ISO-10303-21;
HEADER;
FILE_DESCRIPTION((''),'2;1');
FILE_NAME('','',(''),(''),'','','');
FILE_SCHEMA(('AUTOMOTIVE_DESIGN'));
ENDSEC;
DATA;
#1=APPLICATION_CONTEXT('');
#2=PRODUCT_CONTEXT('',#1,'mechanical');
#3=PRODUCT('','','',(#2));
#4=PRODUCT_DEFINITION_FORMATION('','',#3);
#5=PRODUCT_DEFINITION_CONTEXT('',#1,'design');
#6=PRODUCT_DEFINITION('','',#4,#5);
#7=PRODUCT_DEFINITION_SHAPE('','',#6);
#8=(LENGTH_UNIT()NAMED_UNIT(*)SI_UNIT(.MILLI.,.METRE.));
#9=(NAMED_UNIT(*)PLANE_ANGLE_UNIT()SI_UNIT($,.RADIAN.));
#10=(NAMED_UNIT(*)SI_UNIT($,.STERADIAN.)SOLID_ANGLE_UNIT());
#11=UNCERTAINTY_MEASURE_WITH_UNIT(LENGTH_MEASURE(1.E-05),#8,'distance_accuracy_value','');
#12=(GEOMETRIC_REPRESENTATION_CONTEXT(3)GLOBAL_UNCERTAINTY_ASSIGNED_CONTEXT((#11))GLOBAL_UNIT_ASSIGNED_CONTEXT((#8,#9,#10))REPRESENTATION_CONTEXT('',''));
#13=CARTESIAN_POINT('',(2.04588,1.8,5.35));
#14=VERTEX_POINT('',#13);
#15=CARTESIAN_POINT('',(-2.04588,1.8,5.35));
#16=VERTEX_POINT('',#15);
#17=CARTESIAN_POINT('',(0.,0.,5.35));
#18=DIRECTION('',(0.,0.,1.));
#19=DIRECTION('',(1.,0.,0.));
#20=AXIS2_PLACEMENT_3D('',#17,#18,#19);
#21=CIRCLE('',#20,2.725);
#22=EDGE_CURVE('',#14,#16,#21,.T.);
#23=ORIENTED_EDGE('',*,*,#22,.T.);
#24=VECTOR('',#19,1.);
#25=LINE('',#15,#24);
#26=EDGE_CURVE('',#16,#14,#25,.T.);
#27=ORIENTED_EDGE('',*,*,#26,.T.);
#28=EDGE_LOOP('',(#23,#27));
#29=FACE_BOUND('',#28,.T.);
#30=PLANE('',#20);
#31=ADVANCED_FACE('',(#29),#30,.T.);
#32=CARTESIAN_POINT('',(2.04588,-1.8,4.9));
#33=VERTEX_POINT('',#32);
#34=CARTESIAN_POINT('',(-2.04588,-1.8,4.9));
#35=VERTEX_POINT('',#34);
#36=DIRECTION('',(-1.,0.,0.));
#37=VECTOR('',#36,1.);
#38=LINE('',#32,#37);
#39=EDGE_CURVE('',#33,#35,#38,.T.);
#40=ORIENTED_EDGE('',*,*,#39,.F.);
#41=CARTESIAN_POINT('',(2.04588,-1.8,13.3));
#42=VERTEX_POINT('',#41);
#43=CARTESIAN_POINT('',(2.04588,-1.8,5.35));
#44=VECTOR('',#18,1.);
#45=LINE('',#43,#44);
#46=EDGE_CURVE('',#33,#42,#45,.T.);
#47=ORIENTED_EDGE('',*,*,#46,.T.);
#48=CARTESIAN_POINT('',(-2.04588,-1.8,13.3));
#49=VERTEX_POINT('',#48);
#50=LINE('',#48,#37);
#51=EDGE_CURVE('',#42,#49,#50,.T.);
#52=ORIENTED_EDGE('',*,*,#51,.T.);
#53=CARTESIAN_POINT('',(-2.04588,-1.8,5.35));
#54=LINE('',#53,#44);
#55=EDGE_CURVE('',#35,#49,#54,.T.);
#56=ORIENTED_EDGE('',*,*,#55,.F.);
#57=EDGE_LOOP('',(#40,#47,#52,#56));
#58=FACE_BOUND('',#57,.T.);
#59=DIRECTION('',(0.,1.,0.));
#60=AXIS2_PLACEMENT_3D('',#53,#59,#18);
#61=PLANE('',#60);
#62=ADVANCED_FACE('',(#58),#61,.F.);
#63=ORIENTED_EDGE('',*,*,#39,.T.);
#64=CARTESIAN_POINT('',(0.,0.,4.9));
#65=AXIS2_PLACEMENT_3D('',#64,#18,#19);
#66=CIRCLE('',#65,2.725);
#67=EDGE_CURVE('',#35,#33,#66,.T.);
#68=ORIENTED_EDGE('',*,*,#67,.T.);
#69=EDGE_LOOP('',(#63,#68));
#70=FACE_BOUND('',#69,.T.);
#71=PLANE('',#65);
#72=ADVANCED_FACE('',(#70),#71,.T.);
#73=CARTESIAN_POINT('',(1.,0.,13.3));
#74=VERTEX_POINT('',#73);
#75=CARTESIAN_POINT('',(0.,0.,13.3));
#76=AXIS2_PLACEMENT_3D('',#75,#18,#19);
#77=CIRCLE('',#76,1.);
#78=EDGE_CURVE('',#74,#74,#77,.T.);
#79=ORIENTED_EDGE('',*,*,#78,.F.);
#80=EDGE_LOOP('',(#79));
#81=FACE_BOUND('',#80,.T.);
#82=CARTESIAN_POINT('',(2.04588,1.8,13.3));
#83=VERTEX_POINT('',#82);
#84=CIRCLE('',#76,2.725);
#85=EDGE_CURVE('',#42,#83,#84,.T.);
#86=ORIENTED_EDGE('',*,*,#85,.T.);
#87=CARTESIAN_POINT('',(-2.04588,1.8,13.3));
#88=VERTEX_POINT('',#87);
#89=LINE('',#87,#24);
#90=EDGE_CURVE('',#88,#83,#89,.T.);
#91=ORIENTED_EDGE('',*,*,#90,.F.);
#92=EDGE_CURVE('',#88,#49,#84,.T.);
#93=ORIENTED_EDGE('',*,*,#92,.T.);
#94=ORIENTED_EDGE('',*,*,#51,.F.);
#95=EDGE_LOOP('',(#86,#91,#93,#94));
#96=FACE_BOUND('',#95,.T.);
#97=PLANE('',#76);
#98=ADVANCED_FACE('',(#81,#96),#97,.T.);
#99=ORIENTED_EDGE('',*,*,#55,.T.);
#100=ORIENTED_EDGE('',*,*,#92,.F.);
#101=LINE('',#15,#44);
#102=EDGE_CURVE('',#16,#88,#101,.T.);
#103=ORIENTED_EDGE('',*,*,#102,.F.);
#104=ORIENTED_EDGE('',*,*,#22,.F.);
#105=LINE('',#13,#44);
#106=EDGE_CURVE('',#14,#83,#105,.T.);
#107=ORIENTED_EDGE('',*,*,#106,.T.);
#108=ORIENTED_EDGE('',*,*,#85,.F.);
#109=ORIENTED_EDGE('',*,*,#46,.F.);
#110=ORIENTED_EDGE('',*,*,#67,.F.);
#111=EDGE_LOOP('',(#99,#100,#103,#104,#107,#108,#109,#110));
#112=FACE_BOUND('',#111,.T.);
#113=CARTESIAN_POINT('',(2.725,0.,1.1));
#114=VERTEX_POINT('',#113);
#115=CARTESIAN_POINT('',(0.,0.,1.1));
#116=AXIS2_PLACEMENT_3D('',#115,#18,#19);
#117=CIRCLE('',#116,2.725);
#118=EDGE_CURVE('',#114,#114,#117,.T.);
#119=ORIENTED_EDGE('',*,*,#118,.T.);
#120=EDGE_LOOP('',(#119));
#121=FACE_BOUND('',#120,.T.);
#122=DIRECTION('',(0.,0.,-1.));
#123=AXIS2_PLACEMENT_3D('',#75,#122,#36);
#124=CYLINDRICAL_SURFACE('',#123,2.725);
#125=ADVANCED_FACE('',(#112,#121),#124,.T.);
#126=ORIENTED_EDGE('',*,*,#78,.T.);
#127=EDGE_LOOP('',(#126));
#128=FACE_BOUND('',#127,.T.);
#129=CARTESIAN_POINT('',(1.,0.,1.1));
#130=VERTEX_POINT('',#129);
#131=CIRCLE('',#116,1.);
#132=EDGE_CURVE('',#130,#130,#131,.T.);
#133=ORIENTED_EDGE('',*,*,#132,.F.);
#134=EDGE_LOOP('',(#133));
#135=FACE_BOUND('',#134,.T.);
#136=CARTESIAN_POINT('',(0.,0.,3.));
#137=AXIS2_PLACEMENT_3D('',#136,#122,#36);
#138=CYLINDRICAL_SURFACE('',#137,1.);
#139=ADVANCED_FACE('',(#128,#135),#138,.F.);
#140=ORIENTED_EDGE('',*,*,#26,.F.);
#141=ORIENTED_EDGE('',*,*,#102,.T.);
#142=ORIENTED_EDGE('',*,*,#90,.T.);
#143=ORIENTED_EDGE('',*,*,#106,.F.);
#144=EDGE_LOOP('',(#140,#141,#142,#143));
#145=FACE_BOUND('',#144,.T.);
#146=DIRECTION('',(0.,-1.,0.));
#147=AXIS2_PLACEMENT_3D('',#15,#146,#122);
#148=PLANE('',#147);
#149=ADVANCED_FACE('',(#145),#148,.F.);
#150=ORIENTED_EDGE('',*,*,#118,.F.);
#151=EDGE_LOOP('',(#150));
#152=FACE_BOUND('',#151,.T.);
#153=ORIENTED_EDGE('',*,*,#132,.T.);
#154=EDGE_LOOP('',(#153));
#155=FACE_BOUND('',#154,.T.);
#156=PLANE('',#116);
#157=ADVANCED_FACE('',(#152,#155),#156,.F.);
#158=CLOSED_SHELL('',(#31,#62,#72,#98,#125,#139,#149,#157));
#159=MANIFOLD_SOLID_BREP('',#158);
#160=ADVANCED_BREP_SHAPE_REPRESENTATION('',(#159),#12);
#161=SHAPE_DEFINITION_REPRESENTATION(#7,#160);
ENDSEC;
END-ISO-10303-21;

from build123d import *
from build123d.topology import SkipClean

# Parameters (mm, degrees)
SKETCH1_R           = 1
BOSS_EXTRUDE1_DEPTH = 3
BOSS_EXTRUDE2_START = 0.5
SKETCH2_R           = 1.75
SKETCH2_R_2         = 1
BOSS_EXTRUDE2_DEPTH = 0.5
SKETCH3_R           = 2.725
SKETCH3_R_2         = 1
BOSS_EXTRUDE3_DEPTH = 10.3
CUT_EXTRUDE1_START  = -7.95
CUT_EXTRUDE1_DEPTH  = 7.95
CUT_EXTRUDE3_DEPTH  = 3.5
CUT_EXTRUDE4_START  = -8.4
CUT_EXTRUDE4_DEPTH  = 8.4
BOSS_EXTRUDE4_START = -12.2
SKETCH9_R           = 1
BOSS_EXTRUDE4_DEPTH = 12.2
BOSS_EXTRUDE5_START = 1.9
BOSS_EXTRUDE5_DEPTH = 1.9


with BuildPart() as part:
    # Sketch1 → Boss-Extrude1 (new body)
    with BuildSketch(Plane.XY):
        with BuildLine():
            Line((1.642723432, 9.052152215), (1.930369102, 8.457499638))
            Line((1.930369102, 8.457499638), (1.813545612, 7.945662484))
            ThreePointArc((1.813545612, 7.945662484), (1.99137431, 7.902969591), (2.168200291, 7.856297315))
            ThreePointArc((2.168200291, 7.856297315), (2.343934519, 7.805669156), (2.518488504, 7.751110608))
            Line((2.518488504, 7.751110608), (2.680722426, 8.250415279))
            Line((2.680722426, 8.250415279), (3.232648382, 8.61336081))
            Line((3.232648382, 8.61336081), (3.409492149, 7.976903427))
            Line((3.409492149, 7.976903427), (3.203154008, 7.494151346))
            ThreePointArc((3.203154008, 7.494151346), (3.370501815, 7.420392005), (3.536152474, 7.342896273))
            ThreePointArc((3.536152474, 7.342896273), (3.700022573, 7.261703172), (3.862029599, 7.176853585))
            Line((3.862029599, 7.176853585), (4.110810647, 7.639166239))
            Line((4.110810647, 7.639166239), (4.718673352, 7.897728901))
            Line((4.718673352, 7.897728901), (4.779031314, 7.239922976))
            Line((4.779031314, 7.239922976), (4.489810399, 6.801772018))
            ThreePointArc((4.489810399, 6.801772018), (4.641298619, 6.699316915), (4.790449806, 6.593488504))
            ThreePointArc((4.790449806, 6.593488504), (4.937188857, 6.484340073), (5.081441885, 6.371926582))
            Line((5.081441885, 6.371926582), (5.408774031, 6.78238811))
            Line((5.408774031, 6.78238811), (6.053036279, 6.928257487))
            Line((6.053036279, 6.928257487), (5.99496848, 6.270245444))
            Line((5.99496848, 6.270245444), (5.632160589, 5.89077814))
            ThreePointArc((5.632160589, 5.89077814), (5.762920267, 5.762920267), (5.89077814, 5.632160589))
            ThreePointArc((5.89077814, 5.632160589), (6.01566983, 5.498564949), (6.137532448, 5.362200616))
            Line((6.137532448, 5.362200616), (6.532894968, 5.707618447))
            Line((6.532894968, 5.707618447), (7.192849639, 5.736106177))
            Line((7.192849639, 5.736106177), (7.018222426, 5.099037064))
            Line((7.018222426, 5.099037064), (6.593488504, 4.790449806))
            ThreePointArc((6.593488504, 4.790449806), (6.699316915, 4.641298619), (6.801772018, 4.489810399))
            ThreePointArc((6.801772018, 4.489810399), (6.900802224, 4.336061424), (6.996357668, 4.180129111))
            Line((6.996357668, 4.180129111), (7.447043285, 4.449401231))
            Line((7.447043285, 4.449401231), (8.101478893, 4.359591695))
            Line((8.101478893, 4.359591695), (7.815904929, 3.763941437))
            Line((7.815904929, 3.763941437), (7.342896273, 3.536152474))
            ThreePointArc((7.342896273, 3.536152474), (7.420392005, 3.370501816), (7.494151346, 3.203154008))
            ThreePointArc((7.494151346, 3.203154008), (7.564137156, 3.034193316), (7.630314196, 2.863704816))
            Line((7.630314196, 2.863704816), (8.121837503, 3.048176599))
            Line((8.121837503, 3.048176599), (8.74971995, 2.842956348))
            Line((8.74971995, 2.842956348), (8.362377816, 2.307869635))
            Line((8.362377816, 2.307869635), (7.856297315, 2.168200292))
            ThreePointArc((7.856297315, 2.168200292), (7.902969591, 1.99137431), (7.945662484, 1.813545612))
            ThreePointArc((7.945662484, 1.813545612), (7.984354497, 1.634803739), (8.019026147, 1.455238692))
            Line((8.019026147, 1.455238692), (8.535589181, 1.548981062))
            Line((8.535589181, 1.548981062), (9.116737808, 1.234946046))
            Line((9.116737808, 1.234946046), (8.640077, 0.777621005))
            Line((8.640077, 0.777621005), (8.117190496, 0.730560368))
            ThreePointArc((8.117190496, 0.730560368), (8.131539232, 0.548242396), (8.141793492, 0.365648367))
            ThreePointArc((8.141793492, 0.365648367), (8.147948115, 0.182870224), (8.15, 0))
            Line((8.15, 0), (8.675, 0))
            Line((8.675, 0), (9.190736212, -0.412756439))
            Line((9.190736212, -0.412756439), (8.640077, -0.777621005))
            Line((8.640077, -0.777621005), (8.117190496, -0.730560367))
            ThreePointArc((8.117190496, -0.730560367), (8.098754511, -0.91251048), (8.076240558, -1.094001116))
            ThreePointArc((8.076240558, -1.094001116), (8.049659976, -1.27494089), (8.019026147, -1.455238693))
            Line((8.019026147, -1.455238693), (8.535589181, -1.548981063))
            Line((8.535589181, -1.548981063), (8.969336792, -2.047192592))
            Line((8.969336792, -2.047192592), (8.362377817, -2.307869635))
            Line((8.362377817, -2.307869635), (7.856297315, -2.168200291))
            ThreePointArc((7.856297315, -2.168200291), (7.805669156, -2.343934518), (7.751110608, -2.518488504))
            ThreePointArc((7.751110608, -2.518488504), (7.692649142, -2.691774355), (7.630314196, -2.863704816))
            Line((7.630314196, -2.863704816), (8.121837503, -3.048176599))
            Line((8.121837503, -3.048176599), (8.459655507, -3.615830291))
            Line((8.459655507, -3.615830291), (7.815904929, -3.763941437))
            Line((7.815904929, -3.763941437), (7.342896273, -3.536152474))
            ThreePointArc((7.342896273, -3.536152474), (7.261703172, -3.700022573), (7.176853585, -3.862029599))
            ThreePointArc((7.176853585, -3.862029599), (7.088390235, -4.022091977), (6.996357668, -4.180129111))
            Line((6.996357668, -4.180129111), (7.447043284, -4.449401232))
            Line((7.447043284, -4.449401232), (7.678073934, -5.068252229))
            Line((7.678073934, -5.068252229), (7.018222426, -5.099037063))
            Line((7.018222426, -5.099037063), (6.593488504, -4.790449806))
            ThreePointArc((6.593488504, -4.790449806), (6.484340073, -4.937188857), (6.371926582, -5.081441885))
            ThreePointArc((6.371926582, -5.081441885), (6.256304634, -5.223136254), (6.137532448, -5.362200617))
            Line((6.137532448, -5.362200617), (6.532894967, -5.707618448))
            Line((6.532894967, -5.707618448), (6.649712747, -6.357776371))
            Line((6.649712747, -6.357776371), (5.99496848, -6.270245444))
            Line((5.99496848, -6.270245444), (5.632160589, -5.89077814))
            ThreePointArc((5.632160589, -5.89077814), (5.498564949, -6.015669829), (5.362200616, -6.137532448))
            ThreePointArc((5.362200616, -6.137532448), (5.223136254, -6.256304634), (5.081441885, -6.371926582))
            Line((5.081441885, -6.371926582), (5.408774031, -6.782388111))
            Line((5.408774031, -6.782388111), (5.407624321, -7.442956348))
            Line((5.407624321, -7.442956348), (4.779031314, -7.239922976))
            Line((4.779031314, -7.239922976), (4.489810399, -6.801772018))
            ThreePointArc((4.489810399, -6.801772018), (4.336061424, -6.900802224), (4.180129111, -6.996357668))
            ThreePointArc((4.180129111, -6.996357668), (4.022091977, -7.088390235), (3.862029599, -7.176853585))
            Line((3.862029599, -7.176853585), (4.110810647, -7.639166239))
            Line((4.110810647, -7.639166239), (3.9917304, -8.288913585))
            Line((3.9917304, -8.288913585), (3.40949215, -7.976903427))
            Line((3.40949215, -7.976903427), (3.203154008, -7.494151346))
            ThreePointArc((3.203154008, -7.494151346), (3.034193316, -7.564137156), (2.863704816, -7.630314196))
            ThreePointArc((2.863704816, -7.630314196), (2.691774355, -7.692649142), (2.518488504, -7.751110608))
            Line((2.518488504, -7.751110608), (2.680722426, -8.250415279))
            Line((2.680722426, -8.250415279), (2.447538979, -8.868458318))
            Line((2.447538979, -8.868458318), (1.930369102, -8.457499638))
            Line((1.930369102, -8.457499638), (1.813545612, -7.945662484))
            ThreePointArc((1.813545612, -7.945662484), (1.634803739, -7.984354497), (1.455238693, -8.019026147))
            ThreePointArc((1.455238693, -8.019026147), (1.27494089, -8.049659976), (1.094001116, -8.076240558))
            Line((1.094001116, -8.076240558), (1.164473581, -8.596489183))
            Line((1.164473581, -8.596489183), (0.824681642, -9.162963505))
            Line((0.824681642, -9.162963505), (0.389202404, -8.666264852))
            Line((0.389202404, -8.666264852), (0.365648368, -8.141793492))
            ThreePointArc((0.365648368, -8.141793492), (0.182870224, -8.147948115), (0, -8.15))
            ThreePointArc((0, -8.15), (-0.182870224, -8.147948115), (-0.365648368, -8.141793492))
            Line((-0.365648368, -8.141793492), (-0.389202404, -8.666264852))
            Line((-0.389202404, -8.666264852), (-0.824681642, -9.162963505))
            Line((-0.824681642, -9.162963505), (-1.164473581, -8.596489183))
            Line((-1.164473581, -8.596489183), (-1.094001116, -8.076240558))
            ThreePointArc((-1.094001116, -8.076240558), (-1.27494089, -8.049659976), (-1.455238693, -8.019026147))
            ThreePointArc((-1.455238693, -8.019026147), (-1.634803739, -7.984354497), (-1.813545612, -7.945662484))
            Line((-1.813545612, -7.945662484), (-1.930369102, -8.457499638))
            Line((-1.930369102, -8.457499638), (-2.447538979, -8.868458318))
            Line((-2.447538979, -8.868458318), (-2.680722426, -8.250415279))
            Line((-2.680722426, -8.250415279), (-2.518488504, -7.751110608))
            ThreePointArc((-2.518488504, -7.751110608), (-2.691774355, -7.692649142), (-2.863704816, -7.630314196))
            ThreePointArc((-2.863704816, -7.630314196), (-3.034193316, -7.564137156), (-3.203154008, -7.494151346))
            Line((-3.203154008, -7.494151346), (-3.40949215, -7.976903427))
            Line((-3.40949215, -7.976903427), (-3.9917304, -8.288913585))
            Line((-3.9917304, -8.288913585), (-4.110810647, -7.639166239))
            Line((-4.110810647, -7.639166239), (-3.862029599, -7.176853585))
            ThreePointArc((-3.862029599, -7.176853585), (-4.022091977, -7.088390235), (-4.180129111, -6.996357668))
            ThreePointArc((-4.180129111, -6.996357668), (-4.336061424, -6.900802224), (-4.489810399, -6.801772018))
            Line((-4.489810399, -6.801772018), (-4.779031314, -7.239922976))
            Line((-4.779031314, -7.239922976), (-5.407624321, -7.442956348))
            Line((-5.407624321, -7.442956348), (-5.408774031, -6.782388111))
            Line((-5.408774031, -6.782388111), (-5.081441885, -6.371926582))
            ThreePointArc((-5.081441885, -6.371926582), (-5.223136254, -6.256304634), (-5.362200616, -6.137532448))
            ThreePointArc((-5.362200616, -6.137532448), (-5.498564949, -6.015669829), (-5.632160589, -5.89077814))
            Line((-5.632160589, -5.89077814), (-5.99496848, -6.270245444))
            Line((-5.99496848, -6.270245444), (-6.649712747, -6.357776371))
            Line((-6.649712747, -6.357776371), (-6.532894967, -5.707618448))
            Line((-6.532894967, -5.707618448), (-6.137532448, -5.362200617))
            ThreePointArc((-6.137532448, -5.362200617), (-6.256304634, -5.223136254), (-6.371926582, -5.081441885))
            ThreePointArc((-6.371926582, -5.081441885), (-6.484340073, -4.937188857), (-6.593488504, -4.790449806))
            Line((-6.593488504, -4.790449806), (-7.018222426, -5.099037063))
            Line((-7.018222426, -5.099037063), (-7.678073934, -5.068252229))
            Line((-7.678073934, -5.068252229), (-7.447043284, -4.449401232))
            Line((-7.447043284, -4.449401232), (-6.996357668, -4.180129111))
            ThreePointArc((-6.996357668, -4.180129111), (-7.088390235, -4.022091977), (-7.176853585, -3.862029599))
            ThreePointArc((-7.176853585, -3.862029599), (-7.261703172, -3.700022573), (-7.342896273, -3.536152474))
            Line((-7.342896273, -3.536152474), (-7.815904929, -3.763941437))
            Line((-7.815904929, -3.763941437), (-8.459655507, -3.615830291))
            Line((-8.459655507, -3.615830291), (-8.121837503, -3.048176599))
            Line((-8.121837503, -3.048176599), (-7.630314196, -2.863704816))
            ThreePointArc((-7.630314196, -2.863704816), (-7.692649142, -2.691774355), (-7.751110608, -2.518488504))
            ThreePointArc((-7.751110608, -2.518488504), (-7.805669156, -2.343934518), (-7.856297315, -2.168200291))
            Line((-7.856297315, -2.168200291), (-8.362377817, -2.307869635))
            Line((-8.362377817, -2.307869635), (-8.969336792, -2.047192592))
            Line((-8.969336792, -2.047192592), (-8.535589181, -1.548981063))
            Line((-8.535589181, -1.548981063), (-8.019026147, -1.455238693))
            ThreePointArc((-8.019026147, -1.455238693), (-8.049659976, -1.27494089), (-8.076240558, -1.094001116))
            ThreePointArc((-8.076240558, -1.094001116), (-8.098754511, -0.91251048), (-8.117190496, -0.730560367))
            Line((-8.117190496, -0.730560367), (-8.640077, -0.777621005))
            Line((-8.640077, -0.777621005), (-9.190736212, -0.412756439))
            Line((-9.190736212, -0.412756439), (-8.675, 0))
            Line((-8.675, 0), (-8.15, 0))
            ThreePointArc((-8.15, 0), (-8.147948115, 0.182870224), (-8.141793492, 0.365648367))
            ThreePointArc((-8.141793492, 0.365648367), (-8.131539232, 0.548242396), (-8.117190496, 0.730560368))
            Line((-8.117190496, 0.730560368), (-8.640077, 0.777621005))
            Line((-8.640077, 0.777621005), (-9.116737808, 1.234946046))
            Line((-9.116737808, 1.234946046), (-8.535589181, 1.548981062))
            Line((-8.535589181, 1.548981062), (-8.019026147, 1.455238692))
            ThreePointArc((-8.019026147, 1.455238692), (-7.984354497, 1.634803739), (-7.945662484, 1.813545612))
            ThreePointArc((-7.945662484, 1.813545612), (-7.902969591, 1.99137431), (-7.856297315, 2.168200292))
            Line((-7.856297315, 2.168200292), (-8.362377816, 2.307869635))
            Line((-8.362377816, 2.307869635), (-8.74971995, 2.842956348))
            Line((-8.74971995, 2.842956348), (-8.121837503, 3.048176599))
            Line((-8.121837503, 3.048176599), (-7.630314196, 2.863704816))
            ThreePointArc((-7.630314196, 2.863704816), (-7.564137156, 3.034193316), (-7.494151346, 3.203154008))
            ThreePointArc((-7.494151346, 3.203154008), (-7.420392005, 3.370501816), (-7.342896273, 3.536152474))
            Line((-7.342896273, 3.536152474), (-7.815904929, 3.763941437))
            Line((-7.815904929, 3.763941437), (-8.101478893, 4.359591695))
            Line((-8.101478893, 4.359591695), (-7.447043285, 4.449401231))
            Line((-7.447043285, 4.449401231), (-6.996357668, 4.180129111))
            ThreePointArc((-6.996357668, 4.180129111), (-6.900802224, 4.336061424), (-6.801772018, 4.489810399))
            ThreePointArc((-6.801772018, 4.489810399), (-6.699316915, 4.641298619), (-6.593488504, 4.790449806))
            Line((-6.593488504, 4.790449806), (-7.018222426, 5.099037064))
            Line((-7.018222426, 5.099037064), (-7.192849639, 5.736106177))
            Line((-7.192849639, 5.736106177), (-6.532894968, 5.707618447))
            Line((-6.532894968, 5.707618447), (-6.137532448, 5.362200616))
            ThreePointArc((-6.137532448, 5.362200616), (-6.01566983, 5.498564949), (-5.89077814, 5.632160589))
            ThreePointArc((-5.89077814, 5.632160589), (-5.762920267, 5.762920267), (-5.632160589, 5.89077814))
            Line((-5.632160589, 5.89077814), (-5.99496848, 6.270245444))
            Line((-5.99496848, 6.270245444), (-6.053036279, 6.928257487))
            Line((-6.053036279, 6.928257487), (-5.408774031, 6.78238811))
            Line((-5.408774031, 6.78238811), (-5.081441885, 6.371926582))
            ThreePointArc((-5.081441885, 6.371926582), (-4.937188857, 6.484340073), (-4.790449806, 6.593488504))
            ThreePointArc((-4.790449806, 6.593488504), (-4.641298619, 6.699316915), (-4.489810399, 6.801772018))
            Line((-4.489810399, 6.801772018), (-4.779031314, 7.239922976))
            Line((-4.779031314, 7.239922976), (-4.718673352, 7.897728901))
            Line((-4.718673352, 7.897728901), (-4.110810647, 7.639166239))
            Line((-4.110810647, 7.639166239), (-3.862029599, 7.176853585))
            ThreePointArc((-3.862029599, 7.176853585), (-3.700022573, 7.261703172), (-3.536152474, 7.342896273))
            ThreePointArc((-3.536152474, 7.342896273), (-3.370501815, 7.420392005), (-3.203154008, 7.494151346))
            Line((-3.203154008, 7.494151346), (-3.409492149, 7.976903427))
            Line((-3.409492149, 7.976903427), (-3.232648382, 8.61336081))
            Line((-3.232648382, 8.61336081), (-2.680722426, 8.250415279))
            Line((-2.680722426, 8.250415279), (-2.518488504, 7.751110608))
            ThreePointArc((-2.518488504, 7.751110608), (-2.343934519, 7.805669156), (-2.168200291, 7.856297315))
            ThreePointArc((-2.168200291, 7.856297315), (-1.99137431, 7.902969591), (-1.813545612, 7.945662484))
            Line((-1.813545612, 7.945662484), (-1.930369102, 8.457499638))
            Line((-1.930369102, 8.457499638), (-1.642723432, 9.052152215))
            Line((-1.642723432, 9.052152215), (-1.164473581, 8.596489183))
            Line((-1.164473581, 8.596489183), (-1.094001117, 8.076240558))
            ThreePointArc((-1.094001117, 8.076240558), (-0.91251048, 8.098754511), (-0.730560368, 8.117190496))
            ThreePointArc((-0.730560368, 8.117190496), (-0.548242396, 8.131539232), (-0.365648367, 8.141793492))
            Line((-0.365648367, 8.141793492), (-0.389202403, 8.666264852))
            Line((-0.389202403, 8.666264852), (0, 9.2))
            Line((0, 9.2), (0.389202403, 8.666264852))
            Line((0.389202403, 8.666264852), (0.365648367, 8.141793492))
            ThreePointArc((0.365648367, 8.141793492), (0.548242396, 8.131539232), (0.730560368, 8.117190496))
            ThreePointArc((0.730560368, 8.117190496), (0.91251048, 8.098754511), (1.094001117, 8.076240558))
            Line((1.094001117, 8.076240558), (1.164473581, 8.596489183))
            Line((1.164473581, 8.596489183), (1.642723432, 9.052152215))
        make_face()
        Circle(SKETCH1_R, mode=Mode.SUBTRACT)
    extrude(amount=BOSS_EXTRUDE1_DEPTH)

    # Sketch2 → Boss-Extrude2 (add)
    with SkipClean():  # the faces are left unmerged after this step: merging them gives an invalid solid
        with BuildSketch(Plane(origin=(0, 0, 0), x_dir=(-1, 0, 0), z_dir=(0, 0, -1)).offset(BOSS_EXTRUDE2_START)):
            with Locations(Location((0, 0, 0), (0, 0, 180))):
                Circle(SKETCH2_R)
            Circle(SKETCH2_R_2, mode=Mode.SUBTRACT)
        extrude(amount=-BOSS_EXTRUDE2_DEPTH)

    # Sketch3 → Boss-Extrude3 (add)
    with BuildSketch(Plane.XY.offset(3)):
        with Locations(Location((0, 0, 0), (0, 0, 180))):
            Circle(SKETCH3_R)
        with Locations(Location((0, 0, 0), (0, 0, 180))):
            Circle(SKETCH3_R_2, mode=Mode.SUBTRACT)
    extrude(amount=BOSS_EXTRUDE3_DEPTH)

    # Sketch4 → Cut-Extrude1 (cut)
    with BuildSketch(Plane.XY.offset(13.3).offset(CUT_EXTRUDE1_START)):
        with BuildLine():
            Line((-2.045880006, -1.8), (2.045880006, -1.8))
            ThreePointArc((2.045880006, -1.8), (0, -2.725), (-2.045880006, -1.8))
        make_face()
        with BuildLine():
            Line((-2.045880006, 1.8), (2.045880006, 1.8))
            ThreePointArc((2.045880006, 1.8), (0, 2.725), (-2.045880006, 1.8))
        make_face()
    extrude(amount=CUT_EXTRUDE1_DEPTH, mode=Mode.SUBTRACT)

    # Sketch6 → Cut-Extrude3 (cut)
    with BuildSketch(Plane(origin=(0, 0, -0.5), x_dir=(-1, 0, 0), z_dir=(0, 0, -1))):
        with BuildLine():
            Line((0.365648367, 8.141793492), (0.389202403, 8.666264852))
            Line((0.389202403, 8.666264852), (0, 9.2))
            Line((0, 9.2), (-0.389202403, 8.666264852))
            Line((-0.389202403, 8.666264852), (-0.365648367, 8.141793492))
            ThreePointArc((-0.365648367, 8.141793492), (-0.730560368, 8.117190496), (-1.094001117, 8.076240558))
            Line((-1.094001117, 8.076240558), (-1.164473581, 8.596489183))
            Line((-1.164473581, 8.596489183), (-1.642723432, 9.052152215))
            Line((-1.642723432, 9.052152215), (-1.930369102, 8.457499638))
            Line((-1.930369102, 8.457499638), (-1.813545612, 7.945662484))
            ThreePointArc((-1.813545612, 7.945662484), (-2.168200291, 7.856297315), (-2.518488504, 7.751110608))
            Line((-2.518488504, 7.751110608), (-2.680722426, 8.250415279))
            Line((-2.680722426, 8.250415279), (-3.232648382, 8.61336081))
            Line((-3.232648382, 8.61336081), (-3.409492149, 7.976903427))
            Line((-3.409492149, 7.976903427), (-3.203154008, 7.494151346))
            ThreePointArc((-3.203154008, 7.494151346), (-3.536152474, 7.342896273), (-3.862029599, 7.176853585))
            Line((-3.862029599, 7.176853585), (-4.110810647, 7.639166239))
            Line((-4.110810647, 7.639166239), (-4.718673352, 7.897728901))
            Line((-4.718673352, 7.897728901), (-4.779031314, 7.239922976))
            Line((-4.779031314, 7.239922976), (-4.489810399, 6.801772018))
            ThreePointArc((-4.489810399, 6.801772018), (-4.790449806, 6.593488504), (-5.081441885, 6.371926582))
            Line((-5.081441885, 6.371926582), (-5.408774031, 6.78238811))
            Line((-5.408774031, 6.78238811), (-6.053036279, 6.928257487))
            Line((-6.053036279, 6.928257487), (-5.99496848, 6.270245444))
            Line((-5.99496848, 6.270245444), (-5.632160589, 5.89077814))
            ThreePointArc((-5.632160589, 5.89077814), (-5.89077814, 5.632160589), (-6.137532448, 5.362200616))
            Line((-6.137532448, 5.362200616), (-6.532894968, 5.707618447))
            Line((-6.532894968, 5.707618447), (-7.192849639, 5.736106177))
            Line((-7.192849639, 5.736106177), (-7.018222426, 5.099037064))
            Line((-7.018222426, 5.099037064), (-6.593488504, 4.790449806))
            ThreePointArc((-6.593488504, 4.790449806), (-6.801772018, 4.489810399), (-6.996357668, 4.180129111))
            Line((-6.996357668, 4.180129111), (-7.447043285, 4.449401231))
            Line((-7.447043285, 4.449401231), (-8.101478893, 4.359591695))
            Line((-8.101478893, 4.359591695), (-7.815904929, 3.763941437))
            Line((-7.815904929, 3.763941437), (-7.342896273, 3.536152474))
            ThreePointArc((-7.342896273, 3.536152474), (-7.494151346, 3.203154008), (-7.630314196, 2.863704816))
            Line((-7.630314196, 2.863704816), (-8.121837503, 3.048176599))
            Line((-8.121837503, 3.048176599), (-8.74971995, 2.842956348))
            Line((-8.74971995, 2.842956348), (-8.362377816, 2.307869635))
            Line((-8.362377816, 2.307869635), (-7.856297315, 2.168200292))
            ThreePointArc((-7.856297315, 2.168200292), (-7.945662484, 1.813545612), (-8.019026147, 1.455238692))
            Line((-8.019026147, 1.455238692), (-8.535589181, 1.548981062))
            Line((-8.535589181, 1.548981062), (-9.116737808, 1.234946046))
            Line((-9.116737808, 1.234946046), (-8.640077, 0.777621005))
            Line((-8.640077, 0.777621005), (-8.117190496, 0.730560368))
            ThreePointArc((-8.117190496, 0.730560368), (-8.141793492, 0.365648367), (-8.15, 0))
            Line((-8.15, 0), (-8.675, 0))
            Line((-8.675, 0), (-9.190736212, -0.412756439))
            Line((-9.190736212, -0.412756439), (-8.640077, -0.777621005))
            Line((-8.640077, -0.777621005), (-8.117190496, -0.730560367))
            ThreePointArc((-8.117190496, -0.730560367), (-8.076240558, -1.094001116), (-8.019026147, -1.455238693))
            Line((-8.019026147, -1.455238693), (-8.535589181, -1.548981063))
            Line((-8.535589181, -1.548981063), (-8.969336792, -2.047192592))
            Line((-8.969336792, -2.047192592), (-8.362377817, -2.307869635))
            Line((-8.362377817, -2.307869635), (-7.856297315, -2.168200291))
            ThreePointArc((-7.856297315, -2.168200291), (-7.751110608, -2.518488504), (-7.630314196, -2.863704816))
            Line((-7.630314196, -2.863704816), (-8.121837503, -3.048176599))
            Line((-8.121837503, -3.048176599), (-8.459655507, -3.615830291))
            Line((-8.459655507, -3.615830291), (-7.815904929, -3.763941437))
            Line((-7.815904929, -3.763941437), (-7.342896273, -3.536152474))
            ThreePointArc((-7.342896273, -3.536152474), (-7.176853585, -3.862029599), (-6.996357668, -4.180129111))
            Line((-6.996357668, -4.180129111), (-7.447043284, -4.449401232))
            Line((-7.447043284, -4.449401232), (-7.678073934, -5.068252229))
            Line((-7.678073934, -5.068252229), (-7.018222426, -5.099037063))
            Line((-7.018222426, -5.099037063), (-6.593488504, -4.790449806))
            ThreePointArc((-6.593488504, -4.790449806), (-6.371926582, -5.081441885), (-6.137532448, -5.362200617))
            Line((-6.137532448, -5.362200617), (-6.532894967, -5.707618448))
            Line((-6.532894967, -5.707618448), (-6.649712747, -6.357776371))
            Line((-6.649712747, -6.357776371), (-5.99496848, -6.270245444))
            Line((-5.99496848, -6.270245444), (-5.632160589, -5.89077814))
            ThreePointArc((-5.632160589, -5.89077814), (-5.362200616, -6.137532448), (-5.081441885, -6.371926582))
            Line((-5.081441885, -6.371926582), (-5.408774031, -6.782388111))
            Line((-5.408774031, -6.782388111), (-5.407624321, -7.442956348))
            Line((-5.407624321, -7.442956348), (-4.779031314, -7.239922976))
            Line((-4.779031314, -7.239922976), (-4.489810399, -6.801772018))
            ThreePointArc((-4.489810399, -6.801772018), (-4.180129111, -6.996357668), (-3.862029599, -7.176853585))
            Line((-3.862029599, -7.176853585), (-4.110810647, -7.639166239))
            Line((-4.110810647, -7.639166239), (-3.9917304, -8.288913585))
            Line((-3.9917304, -8.288913585), (-3.40949215, -7.976903427))
            Line((-3.40949215, -7.976903427), (-3.203154008, -7.494151346))
            ThreePointArc((-3.203154008, -7.494151346), (-2.863704816, -7.630314196), (-2.518488504, -7.751110608))
            Line((-2.518488504, -7.751110608), (-2.680722426, -8.250415279))
            Line((-2.680722426, -8.250415279), (-2.447538979, -8.868458318))
            Line((-2.447538979, -8.868458318), (-1.930369102, -8.457499638))
            Line((-1.930369102, -8.457499638), (-1.813545612, -7.945662484))
            ThreePointArc((-1.813545612, -7.945662484), (-1.455238693, -8.019026147), (-1.094001116, -8.076240558))
            Line((-1.094001116, -8.076240558), (-1.164473581, -8.596489183))
            Line((-1.164473581, -8.596489183), (-0.824681642, -9.162963505))
            Line((-0.824681642, -9.162963505), (-0.389202404, -8.666264852))
            Line((-0.389202404, -8.666264852), (-0.365648368, -8.141793492))
            ThreePointArc((-0.365648368, -8.141793492), (0, -8.15), (0.365648368, -8.141793492))
            Line((0.365648368, -8.141793492), (0.389202404, -8.666264852))
            Line((0.389202404, -8.666264852), (0.824681642, -9.162963505))
            Line((0.824681642, -9.162963505), (1.164473581, -8.596489183))
            Line((1.164473581, -8.596489183), (1.094001116, -8.076240558))
            ThreePointArc((1.094001116, -8.076240558), (1.455238693, -8.019026147), (1.813545612, -7.945662484))
            Line((1.813545612, -7.945662484), (1.930369102, -8.457499638))
            Line((1.930369102, -8.457499638), (2.447538979, -8.868458318))
            Line((2.447538979, -8.868458318), (2.680722426, -8.250415279))
            Line((2.680722426, -8.250415279), (2.518488504, -7.751110608))
            ThreePointArc((2.518488504, -7.751110608), (2.863704816, -7.630314196), (3.203154008, -7.494151346))
            Line((3.203154008, -7.494151346), (3.40949215, -7.976903427))
            Line((3.40949215, -7.976903427), (3.9917304, -8.288913585))
            Line((3.9917304, -8.288913585), (4.110810647, -7.639166239))
            Line((4.110810647, -7.639166239), (3.862029599, -7.176853585))
            ThreePointArc((3.862029599, -7.176853585), (4.180129111, -6.996357668), (4.489810399, -6.801772018))
            Line((4.489810399, -6.801772018), (4.779031314, -7.239922976))
            Line((4.779031314, -7.239922976), (5.407624321, -7.442956348))
            Line((5.407624321, -7.442956348), (5.408774031, -6.782388111))
            Line((5.408774031, -6.782388111), (5.081441885, -6.371926582))
            ThreePointArc((5.081441885, -6.371926582), (5.362200616, -6.137532448), (5.632160589, -5.89077814))
            Line((5.632160589, -5.89077814), (5.99496848, -6.270245444))
            Line((5.99496848, -6.270245444), (6.649712747, -6.357776371))
            Line((6.649712747, -6.357776371), (6.532894967, -5.707618448))
            Line((6.532894967, -5.707618448), (6.137532448, -5.362200617))
            ThreePointArc((6.137532448, -5.362200617), (6.371926582, -5.081441885), (6.593488504, -4.790449806))
            Line((6.593488504, -4.790449806), (7.018222426, -5.099037063))
            Line((7.018222426, -5.099037063), (7.678073934, -5.068252229))
            Line((7.678073934, -5.068252229), (7.447043284, -4.449401232))
            Line((7.447043284, -4.449401232), (6.996357668, -4.180129111))
            ThreePointArc((6.996357668, -4.180129111), (7.176853585, -3.862029599), (7.342896273, -3.536152474))
            Line((7.342896273, -3.536152474), (7.815904929, -3.763941437))
            Line((7.815904929, -3.763941437), (8.459655507, -3.615830291))
            Line((8.459655507, -3.615830291), (8.121837503, -3.048176599))
            Line((8.121837503, -3.048176599), (7.630314196, -2.863704816))
            ThreePointArc((7.630314196, -2.863704816), (7.751110608, -2.518488504), (7.856297315, -2.168200291))
            Line((7.856297315, -2.168200291), (8.362377817, -2.307869635))
            Line((8.362377817, -2.307869635), (8.969336792, -2.047192592))
            Line((8.969336792, -2.047192592), (8.535589181, -1.548981063))
            Line((8.535589181, -1.548981063), (8.019026147, -1.455238693))
            ThreePointArc((8.019026147, -1.455238693), (8.076240558, -1.094001116), (8.117190496, -0.730560367))
            Line((8.117190496, -0.730560367), (8.640077, -0.777621005))
            Line((8.640077, -0.777621005), (9.190736212, -0.412756439))
            Line((9.190736212, -0.412756439), (8.675, 0))
            Line((8.675, 0), (8.15, 0))
            ThreePointArc((8.15, 0), (8.141793492, 0.365648367), (8.117190496, 0.730560368))
            Line((8.117190496, 0.730560368), (8.640077, 0.777621005))
            Line((8.640077, 0.777621005), (9.116737808, 1.234946046))
            Line((9.116737808, 1.234946046), (8.535589181, 1.548981062))
            Line((8.535589181, 1.548981062), (8.019026147, 1.455238692))
            ThreePointArc((8.019026147, 1.455238692), (7.945662484, 1.813545612), (7.856297315, 2.168200292))
            Line((7.856297315, 2.168200292), (8.362377816, 2.307869635))
            Line((8.362377816, 2.307869635), (8.74971995, 2.842956348))
            Line((8.74971995, 2.842956348), (8.121837503, 3.048176599))
            Line((8.121837503, 3.048176599), (7.630314196, 2.863704816))
            ThreePointArc((7.630314196, 2.863704816), (7.494151346, 3.203154008), (7.342896273, 3.536152474))
            Line((7.342896273, 3.536152474), (7.815904929, 3.763941437))
            Line((7.815904929, 3.763941437), (8.101478893, 4.359591695))
            Line((8.101478893, 4.359591695), (7.447043285, 4.449401231))
            Line((7.447043285, 4.449401231), (6.996357668, 4.180129111))
            ThreePointArc((6.996357668, 4.180129111), (6.801772018, 4.489810399), (6.593488504, 4.790449806))
            Line((6.593488504, 4.790449806), (7.018222426, 5.099037064))
            Line((7.018222426, 5.099037064), (7.192849639, 5.736106177))
            Line((7.192849639, 5.736106177), (6.532894968, 5.707618447))
            Line((6.532894968, 5.707618447), (6.137532448, 5.362200616))
            ThreePointArc((6.137532448, 5.362200616), (5.89077814, 5.632160589), (5.632160589, 5.89077814))
            Line((5.632160589, 5.89077814), (5.99496848, 6.270245444))
            Line((5.99496848, 6.270245444), (6.053036279, 6.928257487))
            Line((6.053036279, 6.928257487), (5.408774031, 6.78238811))
            Line((5.408774031, 6.78238811), (5.081441885, 6.371926582))
            ThreePointArc((5.081441885, 6.371926582), (4.790449806, 6.593488504), (4.489810399, 6.801772018))
            Line((4.489810399, 6.801772018), (4.779031314, 7.239922976))
            Line((4.779031314, 7.239922976), (4.718673352, 7.897728901))
            Line((4.718673352, 7.897728901), (4.110810647, 7.639166239))
            Line((4.110810647, 7.639166239), (3.862029599, 7.176853585))
            ThreePointArc((3.862029599, 7.176853585), (3.536152474, 7.342896273), (3.203154008, 7.494151346))
            Line((3.203154008, 7.494151346), (3.409492149, 7.976903427))
            Line((3.409492149, 7.976903427), (3.232648382, 8.61336081))
            Line((3.232648382, 8.61336081), (2.680722426, 8.250415279))
            Line((2.680722426, 8.250415279), (2.518488504, 7.751110608))
            ThreePointArc((2.518488504, 7.751110608), (2.168200291, 7.856297315), (1.813545612, 7.945662484))
            Line((1.813545612, 7.945662484), (1.930369102, 8.457499638))
            Line((1.930369102, 8.457499638), (1.642723432, 9.052152215))
            Line((1.642723432, 9.052152215), (1.164473581, 8.596489183))
            Line((1.164473581, 8.596489183), (1.094001117, 8.076240558))
            ThreePointArc((1.094001117, 8.076240558), (0.730560368, 8.117190496), (0.365648367, 8.141793492))
        make_face()
    extrude(amount=-CUT_EXTRUDE3_DEPTH, mode=Mode.SUBTRACT)

    # Sketch8 → Cut-Extrude4 (cut)
    with BuildSketch(Plane.XY.offset(13.3).offset(CUT_EXTRUDE4_START)):
        with BuildLine():
            Line((2.045880006, -1.8), (-2.045880006, -1.8))
            ThreePointArc((-2.045880006, -1.8), (0, -2.725), (2.045880006, -1.8))
        make_face()
    extrude(amount=CUT_EXTRUDE4_DEPTH, mode=Mode.SUBTRACT)

    # Sketch9 → Boss-Extrude4 (add)
    with BuildSketch(Plane.XY.offset(13.3).offset(BOSS_EXTRUDE4_START)):
        with BuildLine():
            Line((2.045880006, 1.8), (-2.045880006, 1.8))
            ThreePointArc((-2.045880006, 1.8), (-2.725, 0), (-2.045880006, -1.8))
            Line((-2.045880006, -1.8), (2.045880006, -1.8))
            ThreePointArc((2.045880006, -1.8), (2.725, 0), (2.045880006, 1.8))
        make_face()
        Circle(SKETCH9_R, mode=Mode.SUBTRACT)
    extrude(amount=BOSS_EXTRUDE4_DEPTH)

    # Sketch10 → Boss-Extrude5 (add)
    with SkipClean():  # the faces are left unmerged after this step: merging them gives an invalid solid
        with BuildSketch(Plane(origin=(0, 0, 3), x_dir=(-1, 0, 0), z_dir=(0, 0, -1)).offset(BOSS_EXTRUDE5_START)):
            with BuildLine():
                Line((2.045880006, -1.8), (-2.045880006, -1.8))
                ThreePointArc((-2.045880006, -1.8), (0, -2.725), (2.045880006, -1.8))
            make_face()
            with BuildLine():
                Line((-2.045880006, 1.8), (2.045880006, 1.8))
                ThreePointArc((2.045880006, 1.8), (0, 2.725), (-2.045880006, 1.8))
            make_face()
        extrude(amount=-BOSS_EXTRUDE5_DEPTH)


solid = part.part
